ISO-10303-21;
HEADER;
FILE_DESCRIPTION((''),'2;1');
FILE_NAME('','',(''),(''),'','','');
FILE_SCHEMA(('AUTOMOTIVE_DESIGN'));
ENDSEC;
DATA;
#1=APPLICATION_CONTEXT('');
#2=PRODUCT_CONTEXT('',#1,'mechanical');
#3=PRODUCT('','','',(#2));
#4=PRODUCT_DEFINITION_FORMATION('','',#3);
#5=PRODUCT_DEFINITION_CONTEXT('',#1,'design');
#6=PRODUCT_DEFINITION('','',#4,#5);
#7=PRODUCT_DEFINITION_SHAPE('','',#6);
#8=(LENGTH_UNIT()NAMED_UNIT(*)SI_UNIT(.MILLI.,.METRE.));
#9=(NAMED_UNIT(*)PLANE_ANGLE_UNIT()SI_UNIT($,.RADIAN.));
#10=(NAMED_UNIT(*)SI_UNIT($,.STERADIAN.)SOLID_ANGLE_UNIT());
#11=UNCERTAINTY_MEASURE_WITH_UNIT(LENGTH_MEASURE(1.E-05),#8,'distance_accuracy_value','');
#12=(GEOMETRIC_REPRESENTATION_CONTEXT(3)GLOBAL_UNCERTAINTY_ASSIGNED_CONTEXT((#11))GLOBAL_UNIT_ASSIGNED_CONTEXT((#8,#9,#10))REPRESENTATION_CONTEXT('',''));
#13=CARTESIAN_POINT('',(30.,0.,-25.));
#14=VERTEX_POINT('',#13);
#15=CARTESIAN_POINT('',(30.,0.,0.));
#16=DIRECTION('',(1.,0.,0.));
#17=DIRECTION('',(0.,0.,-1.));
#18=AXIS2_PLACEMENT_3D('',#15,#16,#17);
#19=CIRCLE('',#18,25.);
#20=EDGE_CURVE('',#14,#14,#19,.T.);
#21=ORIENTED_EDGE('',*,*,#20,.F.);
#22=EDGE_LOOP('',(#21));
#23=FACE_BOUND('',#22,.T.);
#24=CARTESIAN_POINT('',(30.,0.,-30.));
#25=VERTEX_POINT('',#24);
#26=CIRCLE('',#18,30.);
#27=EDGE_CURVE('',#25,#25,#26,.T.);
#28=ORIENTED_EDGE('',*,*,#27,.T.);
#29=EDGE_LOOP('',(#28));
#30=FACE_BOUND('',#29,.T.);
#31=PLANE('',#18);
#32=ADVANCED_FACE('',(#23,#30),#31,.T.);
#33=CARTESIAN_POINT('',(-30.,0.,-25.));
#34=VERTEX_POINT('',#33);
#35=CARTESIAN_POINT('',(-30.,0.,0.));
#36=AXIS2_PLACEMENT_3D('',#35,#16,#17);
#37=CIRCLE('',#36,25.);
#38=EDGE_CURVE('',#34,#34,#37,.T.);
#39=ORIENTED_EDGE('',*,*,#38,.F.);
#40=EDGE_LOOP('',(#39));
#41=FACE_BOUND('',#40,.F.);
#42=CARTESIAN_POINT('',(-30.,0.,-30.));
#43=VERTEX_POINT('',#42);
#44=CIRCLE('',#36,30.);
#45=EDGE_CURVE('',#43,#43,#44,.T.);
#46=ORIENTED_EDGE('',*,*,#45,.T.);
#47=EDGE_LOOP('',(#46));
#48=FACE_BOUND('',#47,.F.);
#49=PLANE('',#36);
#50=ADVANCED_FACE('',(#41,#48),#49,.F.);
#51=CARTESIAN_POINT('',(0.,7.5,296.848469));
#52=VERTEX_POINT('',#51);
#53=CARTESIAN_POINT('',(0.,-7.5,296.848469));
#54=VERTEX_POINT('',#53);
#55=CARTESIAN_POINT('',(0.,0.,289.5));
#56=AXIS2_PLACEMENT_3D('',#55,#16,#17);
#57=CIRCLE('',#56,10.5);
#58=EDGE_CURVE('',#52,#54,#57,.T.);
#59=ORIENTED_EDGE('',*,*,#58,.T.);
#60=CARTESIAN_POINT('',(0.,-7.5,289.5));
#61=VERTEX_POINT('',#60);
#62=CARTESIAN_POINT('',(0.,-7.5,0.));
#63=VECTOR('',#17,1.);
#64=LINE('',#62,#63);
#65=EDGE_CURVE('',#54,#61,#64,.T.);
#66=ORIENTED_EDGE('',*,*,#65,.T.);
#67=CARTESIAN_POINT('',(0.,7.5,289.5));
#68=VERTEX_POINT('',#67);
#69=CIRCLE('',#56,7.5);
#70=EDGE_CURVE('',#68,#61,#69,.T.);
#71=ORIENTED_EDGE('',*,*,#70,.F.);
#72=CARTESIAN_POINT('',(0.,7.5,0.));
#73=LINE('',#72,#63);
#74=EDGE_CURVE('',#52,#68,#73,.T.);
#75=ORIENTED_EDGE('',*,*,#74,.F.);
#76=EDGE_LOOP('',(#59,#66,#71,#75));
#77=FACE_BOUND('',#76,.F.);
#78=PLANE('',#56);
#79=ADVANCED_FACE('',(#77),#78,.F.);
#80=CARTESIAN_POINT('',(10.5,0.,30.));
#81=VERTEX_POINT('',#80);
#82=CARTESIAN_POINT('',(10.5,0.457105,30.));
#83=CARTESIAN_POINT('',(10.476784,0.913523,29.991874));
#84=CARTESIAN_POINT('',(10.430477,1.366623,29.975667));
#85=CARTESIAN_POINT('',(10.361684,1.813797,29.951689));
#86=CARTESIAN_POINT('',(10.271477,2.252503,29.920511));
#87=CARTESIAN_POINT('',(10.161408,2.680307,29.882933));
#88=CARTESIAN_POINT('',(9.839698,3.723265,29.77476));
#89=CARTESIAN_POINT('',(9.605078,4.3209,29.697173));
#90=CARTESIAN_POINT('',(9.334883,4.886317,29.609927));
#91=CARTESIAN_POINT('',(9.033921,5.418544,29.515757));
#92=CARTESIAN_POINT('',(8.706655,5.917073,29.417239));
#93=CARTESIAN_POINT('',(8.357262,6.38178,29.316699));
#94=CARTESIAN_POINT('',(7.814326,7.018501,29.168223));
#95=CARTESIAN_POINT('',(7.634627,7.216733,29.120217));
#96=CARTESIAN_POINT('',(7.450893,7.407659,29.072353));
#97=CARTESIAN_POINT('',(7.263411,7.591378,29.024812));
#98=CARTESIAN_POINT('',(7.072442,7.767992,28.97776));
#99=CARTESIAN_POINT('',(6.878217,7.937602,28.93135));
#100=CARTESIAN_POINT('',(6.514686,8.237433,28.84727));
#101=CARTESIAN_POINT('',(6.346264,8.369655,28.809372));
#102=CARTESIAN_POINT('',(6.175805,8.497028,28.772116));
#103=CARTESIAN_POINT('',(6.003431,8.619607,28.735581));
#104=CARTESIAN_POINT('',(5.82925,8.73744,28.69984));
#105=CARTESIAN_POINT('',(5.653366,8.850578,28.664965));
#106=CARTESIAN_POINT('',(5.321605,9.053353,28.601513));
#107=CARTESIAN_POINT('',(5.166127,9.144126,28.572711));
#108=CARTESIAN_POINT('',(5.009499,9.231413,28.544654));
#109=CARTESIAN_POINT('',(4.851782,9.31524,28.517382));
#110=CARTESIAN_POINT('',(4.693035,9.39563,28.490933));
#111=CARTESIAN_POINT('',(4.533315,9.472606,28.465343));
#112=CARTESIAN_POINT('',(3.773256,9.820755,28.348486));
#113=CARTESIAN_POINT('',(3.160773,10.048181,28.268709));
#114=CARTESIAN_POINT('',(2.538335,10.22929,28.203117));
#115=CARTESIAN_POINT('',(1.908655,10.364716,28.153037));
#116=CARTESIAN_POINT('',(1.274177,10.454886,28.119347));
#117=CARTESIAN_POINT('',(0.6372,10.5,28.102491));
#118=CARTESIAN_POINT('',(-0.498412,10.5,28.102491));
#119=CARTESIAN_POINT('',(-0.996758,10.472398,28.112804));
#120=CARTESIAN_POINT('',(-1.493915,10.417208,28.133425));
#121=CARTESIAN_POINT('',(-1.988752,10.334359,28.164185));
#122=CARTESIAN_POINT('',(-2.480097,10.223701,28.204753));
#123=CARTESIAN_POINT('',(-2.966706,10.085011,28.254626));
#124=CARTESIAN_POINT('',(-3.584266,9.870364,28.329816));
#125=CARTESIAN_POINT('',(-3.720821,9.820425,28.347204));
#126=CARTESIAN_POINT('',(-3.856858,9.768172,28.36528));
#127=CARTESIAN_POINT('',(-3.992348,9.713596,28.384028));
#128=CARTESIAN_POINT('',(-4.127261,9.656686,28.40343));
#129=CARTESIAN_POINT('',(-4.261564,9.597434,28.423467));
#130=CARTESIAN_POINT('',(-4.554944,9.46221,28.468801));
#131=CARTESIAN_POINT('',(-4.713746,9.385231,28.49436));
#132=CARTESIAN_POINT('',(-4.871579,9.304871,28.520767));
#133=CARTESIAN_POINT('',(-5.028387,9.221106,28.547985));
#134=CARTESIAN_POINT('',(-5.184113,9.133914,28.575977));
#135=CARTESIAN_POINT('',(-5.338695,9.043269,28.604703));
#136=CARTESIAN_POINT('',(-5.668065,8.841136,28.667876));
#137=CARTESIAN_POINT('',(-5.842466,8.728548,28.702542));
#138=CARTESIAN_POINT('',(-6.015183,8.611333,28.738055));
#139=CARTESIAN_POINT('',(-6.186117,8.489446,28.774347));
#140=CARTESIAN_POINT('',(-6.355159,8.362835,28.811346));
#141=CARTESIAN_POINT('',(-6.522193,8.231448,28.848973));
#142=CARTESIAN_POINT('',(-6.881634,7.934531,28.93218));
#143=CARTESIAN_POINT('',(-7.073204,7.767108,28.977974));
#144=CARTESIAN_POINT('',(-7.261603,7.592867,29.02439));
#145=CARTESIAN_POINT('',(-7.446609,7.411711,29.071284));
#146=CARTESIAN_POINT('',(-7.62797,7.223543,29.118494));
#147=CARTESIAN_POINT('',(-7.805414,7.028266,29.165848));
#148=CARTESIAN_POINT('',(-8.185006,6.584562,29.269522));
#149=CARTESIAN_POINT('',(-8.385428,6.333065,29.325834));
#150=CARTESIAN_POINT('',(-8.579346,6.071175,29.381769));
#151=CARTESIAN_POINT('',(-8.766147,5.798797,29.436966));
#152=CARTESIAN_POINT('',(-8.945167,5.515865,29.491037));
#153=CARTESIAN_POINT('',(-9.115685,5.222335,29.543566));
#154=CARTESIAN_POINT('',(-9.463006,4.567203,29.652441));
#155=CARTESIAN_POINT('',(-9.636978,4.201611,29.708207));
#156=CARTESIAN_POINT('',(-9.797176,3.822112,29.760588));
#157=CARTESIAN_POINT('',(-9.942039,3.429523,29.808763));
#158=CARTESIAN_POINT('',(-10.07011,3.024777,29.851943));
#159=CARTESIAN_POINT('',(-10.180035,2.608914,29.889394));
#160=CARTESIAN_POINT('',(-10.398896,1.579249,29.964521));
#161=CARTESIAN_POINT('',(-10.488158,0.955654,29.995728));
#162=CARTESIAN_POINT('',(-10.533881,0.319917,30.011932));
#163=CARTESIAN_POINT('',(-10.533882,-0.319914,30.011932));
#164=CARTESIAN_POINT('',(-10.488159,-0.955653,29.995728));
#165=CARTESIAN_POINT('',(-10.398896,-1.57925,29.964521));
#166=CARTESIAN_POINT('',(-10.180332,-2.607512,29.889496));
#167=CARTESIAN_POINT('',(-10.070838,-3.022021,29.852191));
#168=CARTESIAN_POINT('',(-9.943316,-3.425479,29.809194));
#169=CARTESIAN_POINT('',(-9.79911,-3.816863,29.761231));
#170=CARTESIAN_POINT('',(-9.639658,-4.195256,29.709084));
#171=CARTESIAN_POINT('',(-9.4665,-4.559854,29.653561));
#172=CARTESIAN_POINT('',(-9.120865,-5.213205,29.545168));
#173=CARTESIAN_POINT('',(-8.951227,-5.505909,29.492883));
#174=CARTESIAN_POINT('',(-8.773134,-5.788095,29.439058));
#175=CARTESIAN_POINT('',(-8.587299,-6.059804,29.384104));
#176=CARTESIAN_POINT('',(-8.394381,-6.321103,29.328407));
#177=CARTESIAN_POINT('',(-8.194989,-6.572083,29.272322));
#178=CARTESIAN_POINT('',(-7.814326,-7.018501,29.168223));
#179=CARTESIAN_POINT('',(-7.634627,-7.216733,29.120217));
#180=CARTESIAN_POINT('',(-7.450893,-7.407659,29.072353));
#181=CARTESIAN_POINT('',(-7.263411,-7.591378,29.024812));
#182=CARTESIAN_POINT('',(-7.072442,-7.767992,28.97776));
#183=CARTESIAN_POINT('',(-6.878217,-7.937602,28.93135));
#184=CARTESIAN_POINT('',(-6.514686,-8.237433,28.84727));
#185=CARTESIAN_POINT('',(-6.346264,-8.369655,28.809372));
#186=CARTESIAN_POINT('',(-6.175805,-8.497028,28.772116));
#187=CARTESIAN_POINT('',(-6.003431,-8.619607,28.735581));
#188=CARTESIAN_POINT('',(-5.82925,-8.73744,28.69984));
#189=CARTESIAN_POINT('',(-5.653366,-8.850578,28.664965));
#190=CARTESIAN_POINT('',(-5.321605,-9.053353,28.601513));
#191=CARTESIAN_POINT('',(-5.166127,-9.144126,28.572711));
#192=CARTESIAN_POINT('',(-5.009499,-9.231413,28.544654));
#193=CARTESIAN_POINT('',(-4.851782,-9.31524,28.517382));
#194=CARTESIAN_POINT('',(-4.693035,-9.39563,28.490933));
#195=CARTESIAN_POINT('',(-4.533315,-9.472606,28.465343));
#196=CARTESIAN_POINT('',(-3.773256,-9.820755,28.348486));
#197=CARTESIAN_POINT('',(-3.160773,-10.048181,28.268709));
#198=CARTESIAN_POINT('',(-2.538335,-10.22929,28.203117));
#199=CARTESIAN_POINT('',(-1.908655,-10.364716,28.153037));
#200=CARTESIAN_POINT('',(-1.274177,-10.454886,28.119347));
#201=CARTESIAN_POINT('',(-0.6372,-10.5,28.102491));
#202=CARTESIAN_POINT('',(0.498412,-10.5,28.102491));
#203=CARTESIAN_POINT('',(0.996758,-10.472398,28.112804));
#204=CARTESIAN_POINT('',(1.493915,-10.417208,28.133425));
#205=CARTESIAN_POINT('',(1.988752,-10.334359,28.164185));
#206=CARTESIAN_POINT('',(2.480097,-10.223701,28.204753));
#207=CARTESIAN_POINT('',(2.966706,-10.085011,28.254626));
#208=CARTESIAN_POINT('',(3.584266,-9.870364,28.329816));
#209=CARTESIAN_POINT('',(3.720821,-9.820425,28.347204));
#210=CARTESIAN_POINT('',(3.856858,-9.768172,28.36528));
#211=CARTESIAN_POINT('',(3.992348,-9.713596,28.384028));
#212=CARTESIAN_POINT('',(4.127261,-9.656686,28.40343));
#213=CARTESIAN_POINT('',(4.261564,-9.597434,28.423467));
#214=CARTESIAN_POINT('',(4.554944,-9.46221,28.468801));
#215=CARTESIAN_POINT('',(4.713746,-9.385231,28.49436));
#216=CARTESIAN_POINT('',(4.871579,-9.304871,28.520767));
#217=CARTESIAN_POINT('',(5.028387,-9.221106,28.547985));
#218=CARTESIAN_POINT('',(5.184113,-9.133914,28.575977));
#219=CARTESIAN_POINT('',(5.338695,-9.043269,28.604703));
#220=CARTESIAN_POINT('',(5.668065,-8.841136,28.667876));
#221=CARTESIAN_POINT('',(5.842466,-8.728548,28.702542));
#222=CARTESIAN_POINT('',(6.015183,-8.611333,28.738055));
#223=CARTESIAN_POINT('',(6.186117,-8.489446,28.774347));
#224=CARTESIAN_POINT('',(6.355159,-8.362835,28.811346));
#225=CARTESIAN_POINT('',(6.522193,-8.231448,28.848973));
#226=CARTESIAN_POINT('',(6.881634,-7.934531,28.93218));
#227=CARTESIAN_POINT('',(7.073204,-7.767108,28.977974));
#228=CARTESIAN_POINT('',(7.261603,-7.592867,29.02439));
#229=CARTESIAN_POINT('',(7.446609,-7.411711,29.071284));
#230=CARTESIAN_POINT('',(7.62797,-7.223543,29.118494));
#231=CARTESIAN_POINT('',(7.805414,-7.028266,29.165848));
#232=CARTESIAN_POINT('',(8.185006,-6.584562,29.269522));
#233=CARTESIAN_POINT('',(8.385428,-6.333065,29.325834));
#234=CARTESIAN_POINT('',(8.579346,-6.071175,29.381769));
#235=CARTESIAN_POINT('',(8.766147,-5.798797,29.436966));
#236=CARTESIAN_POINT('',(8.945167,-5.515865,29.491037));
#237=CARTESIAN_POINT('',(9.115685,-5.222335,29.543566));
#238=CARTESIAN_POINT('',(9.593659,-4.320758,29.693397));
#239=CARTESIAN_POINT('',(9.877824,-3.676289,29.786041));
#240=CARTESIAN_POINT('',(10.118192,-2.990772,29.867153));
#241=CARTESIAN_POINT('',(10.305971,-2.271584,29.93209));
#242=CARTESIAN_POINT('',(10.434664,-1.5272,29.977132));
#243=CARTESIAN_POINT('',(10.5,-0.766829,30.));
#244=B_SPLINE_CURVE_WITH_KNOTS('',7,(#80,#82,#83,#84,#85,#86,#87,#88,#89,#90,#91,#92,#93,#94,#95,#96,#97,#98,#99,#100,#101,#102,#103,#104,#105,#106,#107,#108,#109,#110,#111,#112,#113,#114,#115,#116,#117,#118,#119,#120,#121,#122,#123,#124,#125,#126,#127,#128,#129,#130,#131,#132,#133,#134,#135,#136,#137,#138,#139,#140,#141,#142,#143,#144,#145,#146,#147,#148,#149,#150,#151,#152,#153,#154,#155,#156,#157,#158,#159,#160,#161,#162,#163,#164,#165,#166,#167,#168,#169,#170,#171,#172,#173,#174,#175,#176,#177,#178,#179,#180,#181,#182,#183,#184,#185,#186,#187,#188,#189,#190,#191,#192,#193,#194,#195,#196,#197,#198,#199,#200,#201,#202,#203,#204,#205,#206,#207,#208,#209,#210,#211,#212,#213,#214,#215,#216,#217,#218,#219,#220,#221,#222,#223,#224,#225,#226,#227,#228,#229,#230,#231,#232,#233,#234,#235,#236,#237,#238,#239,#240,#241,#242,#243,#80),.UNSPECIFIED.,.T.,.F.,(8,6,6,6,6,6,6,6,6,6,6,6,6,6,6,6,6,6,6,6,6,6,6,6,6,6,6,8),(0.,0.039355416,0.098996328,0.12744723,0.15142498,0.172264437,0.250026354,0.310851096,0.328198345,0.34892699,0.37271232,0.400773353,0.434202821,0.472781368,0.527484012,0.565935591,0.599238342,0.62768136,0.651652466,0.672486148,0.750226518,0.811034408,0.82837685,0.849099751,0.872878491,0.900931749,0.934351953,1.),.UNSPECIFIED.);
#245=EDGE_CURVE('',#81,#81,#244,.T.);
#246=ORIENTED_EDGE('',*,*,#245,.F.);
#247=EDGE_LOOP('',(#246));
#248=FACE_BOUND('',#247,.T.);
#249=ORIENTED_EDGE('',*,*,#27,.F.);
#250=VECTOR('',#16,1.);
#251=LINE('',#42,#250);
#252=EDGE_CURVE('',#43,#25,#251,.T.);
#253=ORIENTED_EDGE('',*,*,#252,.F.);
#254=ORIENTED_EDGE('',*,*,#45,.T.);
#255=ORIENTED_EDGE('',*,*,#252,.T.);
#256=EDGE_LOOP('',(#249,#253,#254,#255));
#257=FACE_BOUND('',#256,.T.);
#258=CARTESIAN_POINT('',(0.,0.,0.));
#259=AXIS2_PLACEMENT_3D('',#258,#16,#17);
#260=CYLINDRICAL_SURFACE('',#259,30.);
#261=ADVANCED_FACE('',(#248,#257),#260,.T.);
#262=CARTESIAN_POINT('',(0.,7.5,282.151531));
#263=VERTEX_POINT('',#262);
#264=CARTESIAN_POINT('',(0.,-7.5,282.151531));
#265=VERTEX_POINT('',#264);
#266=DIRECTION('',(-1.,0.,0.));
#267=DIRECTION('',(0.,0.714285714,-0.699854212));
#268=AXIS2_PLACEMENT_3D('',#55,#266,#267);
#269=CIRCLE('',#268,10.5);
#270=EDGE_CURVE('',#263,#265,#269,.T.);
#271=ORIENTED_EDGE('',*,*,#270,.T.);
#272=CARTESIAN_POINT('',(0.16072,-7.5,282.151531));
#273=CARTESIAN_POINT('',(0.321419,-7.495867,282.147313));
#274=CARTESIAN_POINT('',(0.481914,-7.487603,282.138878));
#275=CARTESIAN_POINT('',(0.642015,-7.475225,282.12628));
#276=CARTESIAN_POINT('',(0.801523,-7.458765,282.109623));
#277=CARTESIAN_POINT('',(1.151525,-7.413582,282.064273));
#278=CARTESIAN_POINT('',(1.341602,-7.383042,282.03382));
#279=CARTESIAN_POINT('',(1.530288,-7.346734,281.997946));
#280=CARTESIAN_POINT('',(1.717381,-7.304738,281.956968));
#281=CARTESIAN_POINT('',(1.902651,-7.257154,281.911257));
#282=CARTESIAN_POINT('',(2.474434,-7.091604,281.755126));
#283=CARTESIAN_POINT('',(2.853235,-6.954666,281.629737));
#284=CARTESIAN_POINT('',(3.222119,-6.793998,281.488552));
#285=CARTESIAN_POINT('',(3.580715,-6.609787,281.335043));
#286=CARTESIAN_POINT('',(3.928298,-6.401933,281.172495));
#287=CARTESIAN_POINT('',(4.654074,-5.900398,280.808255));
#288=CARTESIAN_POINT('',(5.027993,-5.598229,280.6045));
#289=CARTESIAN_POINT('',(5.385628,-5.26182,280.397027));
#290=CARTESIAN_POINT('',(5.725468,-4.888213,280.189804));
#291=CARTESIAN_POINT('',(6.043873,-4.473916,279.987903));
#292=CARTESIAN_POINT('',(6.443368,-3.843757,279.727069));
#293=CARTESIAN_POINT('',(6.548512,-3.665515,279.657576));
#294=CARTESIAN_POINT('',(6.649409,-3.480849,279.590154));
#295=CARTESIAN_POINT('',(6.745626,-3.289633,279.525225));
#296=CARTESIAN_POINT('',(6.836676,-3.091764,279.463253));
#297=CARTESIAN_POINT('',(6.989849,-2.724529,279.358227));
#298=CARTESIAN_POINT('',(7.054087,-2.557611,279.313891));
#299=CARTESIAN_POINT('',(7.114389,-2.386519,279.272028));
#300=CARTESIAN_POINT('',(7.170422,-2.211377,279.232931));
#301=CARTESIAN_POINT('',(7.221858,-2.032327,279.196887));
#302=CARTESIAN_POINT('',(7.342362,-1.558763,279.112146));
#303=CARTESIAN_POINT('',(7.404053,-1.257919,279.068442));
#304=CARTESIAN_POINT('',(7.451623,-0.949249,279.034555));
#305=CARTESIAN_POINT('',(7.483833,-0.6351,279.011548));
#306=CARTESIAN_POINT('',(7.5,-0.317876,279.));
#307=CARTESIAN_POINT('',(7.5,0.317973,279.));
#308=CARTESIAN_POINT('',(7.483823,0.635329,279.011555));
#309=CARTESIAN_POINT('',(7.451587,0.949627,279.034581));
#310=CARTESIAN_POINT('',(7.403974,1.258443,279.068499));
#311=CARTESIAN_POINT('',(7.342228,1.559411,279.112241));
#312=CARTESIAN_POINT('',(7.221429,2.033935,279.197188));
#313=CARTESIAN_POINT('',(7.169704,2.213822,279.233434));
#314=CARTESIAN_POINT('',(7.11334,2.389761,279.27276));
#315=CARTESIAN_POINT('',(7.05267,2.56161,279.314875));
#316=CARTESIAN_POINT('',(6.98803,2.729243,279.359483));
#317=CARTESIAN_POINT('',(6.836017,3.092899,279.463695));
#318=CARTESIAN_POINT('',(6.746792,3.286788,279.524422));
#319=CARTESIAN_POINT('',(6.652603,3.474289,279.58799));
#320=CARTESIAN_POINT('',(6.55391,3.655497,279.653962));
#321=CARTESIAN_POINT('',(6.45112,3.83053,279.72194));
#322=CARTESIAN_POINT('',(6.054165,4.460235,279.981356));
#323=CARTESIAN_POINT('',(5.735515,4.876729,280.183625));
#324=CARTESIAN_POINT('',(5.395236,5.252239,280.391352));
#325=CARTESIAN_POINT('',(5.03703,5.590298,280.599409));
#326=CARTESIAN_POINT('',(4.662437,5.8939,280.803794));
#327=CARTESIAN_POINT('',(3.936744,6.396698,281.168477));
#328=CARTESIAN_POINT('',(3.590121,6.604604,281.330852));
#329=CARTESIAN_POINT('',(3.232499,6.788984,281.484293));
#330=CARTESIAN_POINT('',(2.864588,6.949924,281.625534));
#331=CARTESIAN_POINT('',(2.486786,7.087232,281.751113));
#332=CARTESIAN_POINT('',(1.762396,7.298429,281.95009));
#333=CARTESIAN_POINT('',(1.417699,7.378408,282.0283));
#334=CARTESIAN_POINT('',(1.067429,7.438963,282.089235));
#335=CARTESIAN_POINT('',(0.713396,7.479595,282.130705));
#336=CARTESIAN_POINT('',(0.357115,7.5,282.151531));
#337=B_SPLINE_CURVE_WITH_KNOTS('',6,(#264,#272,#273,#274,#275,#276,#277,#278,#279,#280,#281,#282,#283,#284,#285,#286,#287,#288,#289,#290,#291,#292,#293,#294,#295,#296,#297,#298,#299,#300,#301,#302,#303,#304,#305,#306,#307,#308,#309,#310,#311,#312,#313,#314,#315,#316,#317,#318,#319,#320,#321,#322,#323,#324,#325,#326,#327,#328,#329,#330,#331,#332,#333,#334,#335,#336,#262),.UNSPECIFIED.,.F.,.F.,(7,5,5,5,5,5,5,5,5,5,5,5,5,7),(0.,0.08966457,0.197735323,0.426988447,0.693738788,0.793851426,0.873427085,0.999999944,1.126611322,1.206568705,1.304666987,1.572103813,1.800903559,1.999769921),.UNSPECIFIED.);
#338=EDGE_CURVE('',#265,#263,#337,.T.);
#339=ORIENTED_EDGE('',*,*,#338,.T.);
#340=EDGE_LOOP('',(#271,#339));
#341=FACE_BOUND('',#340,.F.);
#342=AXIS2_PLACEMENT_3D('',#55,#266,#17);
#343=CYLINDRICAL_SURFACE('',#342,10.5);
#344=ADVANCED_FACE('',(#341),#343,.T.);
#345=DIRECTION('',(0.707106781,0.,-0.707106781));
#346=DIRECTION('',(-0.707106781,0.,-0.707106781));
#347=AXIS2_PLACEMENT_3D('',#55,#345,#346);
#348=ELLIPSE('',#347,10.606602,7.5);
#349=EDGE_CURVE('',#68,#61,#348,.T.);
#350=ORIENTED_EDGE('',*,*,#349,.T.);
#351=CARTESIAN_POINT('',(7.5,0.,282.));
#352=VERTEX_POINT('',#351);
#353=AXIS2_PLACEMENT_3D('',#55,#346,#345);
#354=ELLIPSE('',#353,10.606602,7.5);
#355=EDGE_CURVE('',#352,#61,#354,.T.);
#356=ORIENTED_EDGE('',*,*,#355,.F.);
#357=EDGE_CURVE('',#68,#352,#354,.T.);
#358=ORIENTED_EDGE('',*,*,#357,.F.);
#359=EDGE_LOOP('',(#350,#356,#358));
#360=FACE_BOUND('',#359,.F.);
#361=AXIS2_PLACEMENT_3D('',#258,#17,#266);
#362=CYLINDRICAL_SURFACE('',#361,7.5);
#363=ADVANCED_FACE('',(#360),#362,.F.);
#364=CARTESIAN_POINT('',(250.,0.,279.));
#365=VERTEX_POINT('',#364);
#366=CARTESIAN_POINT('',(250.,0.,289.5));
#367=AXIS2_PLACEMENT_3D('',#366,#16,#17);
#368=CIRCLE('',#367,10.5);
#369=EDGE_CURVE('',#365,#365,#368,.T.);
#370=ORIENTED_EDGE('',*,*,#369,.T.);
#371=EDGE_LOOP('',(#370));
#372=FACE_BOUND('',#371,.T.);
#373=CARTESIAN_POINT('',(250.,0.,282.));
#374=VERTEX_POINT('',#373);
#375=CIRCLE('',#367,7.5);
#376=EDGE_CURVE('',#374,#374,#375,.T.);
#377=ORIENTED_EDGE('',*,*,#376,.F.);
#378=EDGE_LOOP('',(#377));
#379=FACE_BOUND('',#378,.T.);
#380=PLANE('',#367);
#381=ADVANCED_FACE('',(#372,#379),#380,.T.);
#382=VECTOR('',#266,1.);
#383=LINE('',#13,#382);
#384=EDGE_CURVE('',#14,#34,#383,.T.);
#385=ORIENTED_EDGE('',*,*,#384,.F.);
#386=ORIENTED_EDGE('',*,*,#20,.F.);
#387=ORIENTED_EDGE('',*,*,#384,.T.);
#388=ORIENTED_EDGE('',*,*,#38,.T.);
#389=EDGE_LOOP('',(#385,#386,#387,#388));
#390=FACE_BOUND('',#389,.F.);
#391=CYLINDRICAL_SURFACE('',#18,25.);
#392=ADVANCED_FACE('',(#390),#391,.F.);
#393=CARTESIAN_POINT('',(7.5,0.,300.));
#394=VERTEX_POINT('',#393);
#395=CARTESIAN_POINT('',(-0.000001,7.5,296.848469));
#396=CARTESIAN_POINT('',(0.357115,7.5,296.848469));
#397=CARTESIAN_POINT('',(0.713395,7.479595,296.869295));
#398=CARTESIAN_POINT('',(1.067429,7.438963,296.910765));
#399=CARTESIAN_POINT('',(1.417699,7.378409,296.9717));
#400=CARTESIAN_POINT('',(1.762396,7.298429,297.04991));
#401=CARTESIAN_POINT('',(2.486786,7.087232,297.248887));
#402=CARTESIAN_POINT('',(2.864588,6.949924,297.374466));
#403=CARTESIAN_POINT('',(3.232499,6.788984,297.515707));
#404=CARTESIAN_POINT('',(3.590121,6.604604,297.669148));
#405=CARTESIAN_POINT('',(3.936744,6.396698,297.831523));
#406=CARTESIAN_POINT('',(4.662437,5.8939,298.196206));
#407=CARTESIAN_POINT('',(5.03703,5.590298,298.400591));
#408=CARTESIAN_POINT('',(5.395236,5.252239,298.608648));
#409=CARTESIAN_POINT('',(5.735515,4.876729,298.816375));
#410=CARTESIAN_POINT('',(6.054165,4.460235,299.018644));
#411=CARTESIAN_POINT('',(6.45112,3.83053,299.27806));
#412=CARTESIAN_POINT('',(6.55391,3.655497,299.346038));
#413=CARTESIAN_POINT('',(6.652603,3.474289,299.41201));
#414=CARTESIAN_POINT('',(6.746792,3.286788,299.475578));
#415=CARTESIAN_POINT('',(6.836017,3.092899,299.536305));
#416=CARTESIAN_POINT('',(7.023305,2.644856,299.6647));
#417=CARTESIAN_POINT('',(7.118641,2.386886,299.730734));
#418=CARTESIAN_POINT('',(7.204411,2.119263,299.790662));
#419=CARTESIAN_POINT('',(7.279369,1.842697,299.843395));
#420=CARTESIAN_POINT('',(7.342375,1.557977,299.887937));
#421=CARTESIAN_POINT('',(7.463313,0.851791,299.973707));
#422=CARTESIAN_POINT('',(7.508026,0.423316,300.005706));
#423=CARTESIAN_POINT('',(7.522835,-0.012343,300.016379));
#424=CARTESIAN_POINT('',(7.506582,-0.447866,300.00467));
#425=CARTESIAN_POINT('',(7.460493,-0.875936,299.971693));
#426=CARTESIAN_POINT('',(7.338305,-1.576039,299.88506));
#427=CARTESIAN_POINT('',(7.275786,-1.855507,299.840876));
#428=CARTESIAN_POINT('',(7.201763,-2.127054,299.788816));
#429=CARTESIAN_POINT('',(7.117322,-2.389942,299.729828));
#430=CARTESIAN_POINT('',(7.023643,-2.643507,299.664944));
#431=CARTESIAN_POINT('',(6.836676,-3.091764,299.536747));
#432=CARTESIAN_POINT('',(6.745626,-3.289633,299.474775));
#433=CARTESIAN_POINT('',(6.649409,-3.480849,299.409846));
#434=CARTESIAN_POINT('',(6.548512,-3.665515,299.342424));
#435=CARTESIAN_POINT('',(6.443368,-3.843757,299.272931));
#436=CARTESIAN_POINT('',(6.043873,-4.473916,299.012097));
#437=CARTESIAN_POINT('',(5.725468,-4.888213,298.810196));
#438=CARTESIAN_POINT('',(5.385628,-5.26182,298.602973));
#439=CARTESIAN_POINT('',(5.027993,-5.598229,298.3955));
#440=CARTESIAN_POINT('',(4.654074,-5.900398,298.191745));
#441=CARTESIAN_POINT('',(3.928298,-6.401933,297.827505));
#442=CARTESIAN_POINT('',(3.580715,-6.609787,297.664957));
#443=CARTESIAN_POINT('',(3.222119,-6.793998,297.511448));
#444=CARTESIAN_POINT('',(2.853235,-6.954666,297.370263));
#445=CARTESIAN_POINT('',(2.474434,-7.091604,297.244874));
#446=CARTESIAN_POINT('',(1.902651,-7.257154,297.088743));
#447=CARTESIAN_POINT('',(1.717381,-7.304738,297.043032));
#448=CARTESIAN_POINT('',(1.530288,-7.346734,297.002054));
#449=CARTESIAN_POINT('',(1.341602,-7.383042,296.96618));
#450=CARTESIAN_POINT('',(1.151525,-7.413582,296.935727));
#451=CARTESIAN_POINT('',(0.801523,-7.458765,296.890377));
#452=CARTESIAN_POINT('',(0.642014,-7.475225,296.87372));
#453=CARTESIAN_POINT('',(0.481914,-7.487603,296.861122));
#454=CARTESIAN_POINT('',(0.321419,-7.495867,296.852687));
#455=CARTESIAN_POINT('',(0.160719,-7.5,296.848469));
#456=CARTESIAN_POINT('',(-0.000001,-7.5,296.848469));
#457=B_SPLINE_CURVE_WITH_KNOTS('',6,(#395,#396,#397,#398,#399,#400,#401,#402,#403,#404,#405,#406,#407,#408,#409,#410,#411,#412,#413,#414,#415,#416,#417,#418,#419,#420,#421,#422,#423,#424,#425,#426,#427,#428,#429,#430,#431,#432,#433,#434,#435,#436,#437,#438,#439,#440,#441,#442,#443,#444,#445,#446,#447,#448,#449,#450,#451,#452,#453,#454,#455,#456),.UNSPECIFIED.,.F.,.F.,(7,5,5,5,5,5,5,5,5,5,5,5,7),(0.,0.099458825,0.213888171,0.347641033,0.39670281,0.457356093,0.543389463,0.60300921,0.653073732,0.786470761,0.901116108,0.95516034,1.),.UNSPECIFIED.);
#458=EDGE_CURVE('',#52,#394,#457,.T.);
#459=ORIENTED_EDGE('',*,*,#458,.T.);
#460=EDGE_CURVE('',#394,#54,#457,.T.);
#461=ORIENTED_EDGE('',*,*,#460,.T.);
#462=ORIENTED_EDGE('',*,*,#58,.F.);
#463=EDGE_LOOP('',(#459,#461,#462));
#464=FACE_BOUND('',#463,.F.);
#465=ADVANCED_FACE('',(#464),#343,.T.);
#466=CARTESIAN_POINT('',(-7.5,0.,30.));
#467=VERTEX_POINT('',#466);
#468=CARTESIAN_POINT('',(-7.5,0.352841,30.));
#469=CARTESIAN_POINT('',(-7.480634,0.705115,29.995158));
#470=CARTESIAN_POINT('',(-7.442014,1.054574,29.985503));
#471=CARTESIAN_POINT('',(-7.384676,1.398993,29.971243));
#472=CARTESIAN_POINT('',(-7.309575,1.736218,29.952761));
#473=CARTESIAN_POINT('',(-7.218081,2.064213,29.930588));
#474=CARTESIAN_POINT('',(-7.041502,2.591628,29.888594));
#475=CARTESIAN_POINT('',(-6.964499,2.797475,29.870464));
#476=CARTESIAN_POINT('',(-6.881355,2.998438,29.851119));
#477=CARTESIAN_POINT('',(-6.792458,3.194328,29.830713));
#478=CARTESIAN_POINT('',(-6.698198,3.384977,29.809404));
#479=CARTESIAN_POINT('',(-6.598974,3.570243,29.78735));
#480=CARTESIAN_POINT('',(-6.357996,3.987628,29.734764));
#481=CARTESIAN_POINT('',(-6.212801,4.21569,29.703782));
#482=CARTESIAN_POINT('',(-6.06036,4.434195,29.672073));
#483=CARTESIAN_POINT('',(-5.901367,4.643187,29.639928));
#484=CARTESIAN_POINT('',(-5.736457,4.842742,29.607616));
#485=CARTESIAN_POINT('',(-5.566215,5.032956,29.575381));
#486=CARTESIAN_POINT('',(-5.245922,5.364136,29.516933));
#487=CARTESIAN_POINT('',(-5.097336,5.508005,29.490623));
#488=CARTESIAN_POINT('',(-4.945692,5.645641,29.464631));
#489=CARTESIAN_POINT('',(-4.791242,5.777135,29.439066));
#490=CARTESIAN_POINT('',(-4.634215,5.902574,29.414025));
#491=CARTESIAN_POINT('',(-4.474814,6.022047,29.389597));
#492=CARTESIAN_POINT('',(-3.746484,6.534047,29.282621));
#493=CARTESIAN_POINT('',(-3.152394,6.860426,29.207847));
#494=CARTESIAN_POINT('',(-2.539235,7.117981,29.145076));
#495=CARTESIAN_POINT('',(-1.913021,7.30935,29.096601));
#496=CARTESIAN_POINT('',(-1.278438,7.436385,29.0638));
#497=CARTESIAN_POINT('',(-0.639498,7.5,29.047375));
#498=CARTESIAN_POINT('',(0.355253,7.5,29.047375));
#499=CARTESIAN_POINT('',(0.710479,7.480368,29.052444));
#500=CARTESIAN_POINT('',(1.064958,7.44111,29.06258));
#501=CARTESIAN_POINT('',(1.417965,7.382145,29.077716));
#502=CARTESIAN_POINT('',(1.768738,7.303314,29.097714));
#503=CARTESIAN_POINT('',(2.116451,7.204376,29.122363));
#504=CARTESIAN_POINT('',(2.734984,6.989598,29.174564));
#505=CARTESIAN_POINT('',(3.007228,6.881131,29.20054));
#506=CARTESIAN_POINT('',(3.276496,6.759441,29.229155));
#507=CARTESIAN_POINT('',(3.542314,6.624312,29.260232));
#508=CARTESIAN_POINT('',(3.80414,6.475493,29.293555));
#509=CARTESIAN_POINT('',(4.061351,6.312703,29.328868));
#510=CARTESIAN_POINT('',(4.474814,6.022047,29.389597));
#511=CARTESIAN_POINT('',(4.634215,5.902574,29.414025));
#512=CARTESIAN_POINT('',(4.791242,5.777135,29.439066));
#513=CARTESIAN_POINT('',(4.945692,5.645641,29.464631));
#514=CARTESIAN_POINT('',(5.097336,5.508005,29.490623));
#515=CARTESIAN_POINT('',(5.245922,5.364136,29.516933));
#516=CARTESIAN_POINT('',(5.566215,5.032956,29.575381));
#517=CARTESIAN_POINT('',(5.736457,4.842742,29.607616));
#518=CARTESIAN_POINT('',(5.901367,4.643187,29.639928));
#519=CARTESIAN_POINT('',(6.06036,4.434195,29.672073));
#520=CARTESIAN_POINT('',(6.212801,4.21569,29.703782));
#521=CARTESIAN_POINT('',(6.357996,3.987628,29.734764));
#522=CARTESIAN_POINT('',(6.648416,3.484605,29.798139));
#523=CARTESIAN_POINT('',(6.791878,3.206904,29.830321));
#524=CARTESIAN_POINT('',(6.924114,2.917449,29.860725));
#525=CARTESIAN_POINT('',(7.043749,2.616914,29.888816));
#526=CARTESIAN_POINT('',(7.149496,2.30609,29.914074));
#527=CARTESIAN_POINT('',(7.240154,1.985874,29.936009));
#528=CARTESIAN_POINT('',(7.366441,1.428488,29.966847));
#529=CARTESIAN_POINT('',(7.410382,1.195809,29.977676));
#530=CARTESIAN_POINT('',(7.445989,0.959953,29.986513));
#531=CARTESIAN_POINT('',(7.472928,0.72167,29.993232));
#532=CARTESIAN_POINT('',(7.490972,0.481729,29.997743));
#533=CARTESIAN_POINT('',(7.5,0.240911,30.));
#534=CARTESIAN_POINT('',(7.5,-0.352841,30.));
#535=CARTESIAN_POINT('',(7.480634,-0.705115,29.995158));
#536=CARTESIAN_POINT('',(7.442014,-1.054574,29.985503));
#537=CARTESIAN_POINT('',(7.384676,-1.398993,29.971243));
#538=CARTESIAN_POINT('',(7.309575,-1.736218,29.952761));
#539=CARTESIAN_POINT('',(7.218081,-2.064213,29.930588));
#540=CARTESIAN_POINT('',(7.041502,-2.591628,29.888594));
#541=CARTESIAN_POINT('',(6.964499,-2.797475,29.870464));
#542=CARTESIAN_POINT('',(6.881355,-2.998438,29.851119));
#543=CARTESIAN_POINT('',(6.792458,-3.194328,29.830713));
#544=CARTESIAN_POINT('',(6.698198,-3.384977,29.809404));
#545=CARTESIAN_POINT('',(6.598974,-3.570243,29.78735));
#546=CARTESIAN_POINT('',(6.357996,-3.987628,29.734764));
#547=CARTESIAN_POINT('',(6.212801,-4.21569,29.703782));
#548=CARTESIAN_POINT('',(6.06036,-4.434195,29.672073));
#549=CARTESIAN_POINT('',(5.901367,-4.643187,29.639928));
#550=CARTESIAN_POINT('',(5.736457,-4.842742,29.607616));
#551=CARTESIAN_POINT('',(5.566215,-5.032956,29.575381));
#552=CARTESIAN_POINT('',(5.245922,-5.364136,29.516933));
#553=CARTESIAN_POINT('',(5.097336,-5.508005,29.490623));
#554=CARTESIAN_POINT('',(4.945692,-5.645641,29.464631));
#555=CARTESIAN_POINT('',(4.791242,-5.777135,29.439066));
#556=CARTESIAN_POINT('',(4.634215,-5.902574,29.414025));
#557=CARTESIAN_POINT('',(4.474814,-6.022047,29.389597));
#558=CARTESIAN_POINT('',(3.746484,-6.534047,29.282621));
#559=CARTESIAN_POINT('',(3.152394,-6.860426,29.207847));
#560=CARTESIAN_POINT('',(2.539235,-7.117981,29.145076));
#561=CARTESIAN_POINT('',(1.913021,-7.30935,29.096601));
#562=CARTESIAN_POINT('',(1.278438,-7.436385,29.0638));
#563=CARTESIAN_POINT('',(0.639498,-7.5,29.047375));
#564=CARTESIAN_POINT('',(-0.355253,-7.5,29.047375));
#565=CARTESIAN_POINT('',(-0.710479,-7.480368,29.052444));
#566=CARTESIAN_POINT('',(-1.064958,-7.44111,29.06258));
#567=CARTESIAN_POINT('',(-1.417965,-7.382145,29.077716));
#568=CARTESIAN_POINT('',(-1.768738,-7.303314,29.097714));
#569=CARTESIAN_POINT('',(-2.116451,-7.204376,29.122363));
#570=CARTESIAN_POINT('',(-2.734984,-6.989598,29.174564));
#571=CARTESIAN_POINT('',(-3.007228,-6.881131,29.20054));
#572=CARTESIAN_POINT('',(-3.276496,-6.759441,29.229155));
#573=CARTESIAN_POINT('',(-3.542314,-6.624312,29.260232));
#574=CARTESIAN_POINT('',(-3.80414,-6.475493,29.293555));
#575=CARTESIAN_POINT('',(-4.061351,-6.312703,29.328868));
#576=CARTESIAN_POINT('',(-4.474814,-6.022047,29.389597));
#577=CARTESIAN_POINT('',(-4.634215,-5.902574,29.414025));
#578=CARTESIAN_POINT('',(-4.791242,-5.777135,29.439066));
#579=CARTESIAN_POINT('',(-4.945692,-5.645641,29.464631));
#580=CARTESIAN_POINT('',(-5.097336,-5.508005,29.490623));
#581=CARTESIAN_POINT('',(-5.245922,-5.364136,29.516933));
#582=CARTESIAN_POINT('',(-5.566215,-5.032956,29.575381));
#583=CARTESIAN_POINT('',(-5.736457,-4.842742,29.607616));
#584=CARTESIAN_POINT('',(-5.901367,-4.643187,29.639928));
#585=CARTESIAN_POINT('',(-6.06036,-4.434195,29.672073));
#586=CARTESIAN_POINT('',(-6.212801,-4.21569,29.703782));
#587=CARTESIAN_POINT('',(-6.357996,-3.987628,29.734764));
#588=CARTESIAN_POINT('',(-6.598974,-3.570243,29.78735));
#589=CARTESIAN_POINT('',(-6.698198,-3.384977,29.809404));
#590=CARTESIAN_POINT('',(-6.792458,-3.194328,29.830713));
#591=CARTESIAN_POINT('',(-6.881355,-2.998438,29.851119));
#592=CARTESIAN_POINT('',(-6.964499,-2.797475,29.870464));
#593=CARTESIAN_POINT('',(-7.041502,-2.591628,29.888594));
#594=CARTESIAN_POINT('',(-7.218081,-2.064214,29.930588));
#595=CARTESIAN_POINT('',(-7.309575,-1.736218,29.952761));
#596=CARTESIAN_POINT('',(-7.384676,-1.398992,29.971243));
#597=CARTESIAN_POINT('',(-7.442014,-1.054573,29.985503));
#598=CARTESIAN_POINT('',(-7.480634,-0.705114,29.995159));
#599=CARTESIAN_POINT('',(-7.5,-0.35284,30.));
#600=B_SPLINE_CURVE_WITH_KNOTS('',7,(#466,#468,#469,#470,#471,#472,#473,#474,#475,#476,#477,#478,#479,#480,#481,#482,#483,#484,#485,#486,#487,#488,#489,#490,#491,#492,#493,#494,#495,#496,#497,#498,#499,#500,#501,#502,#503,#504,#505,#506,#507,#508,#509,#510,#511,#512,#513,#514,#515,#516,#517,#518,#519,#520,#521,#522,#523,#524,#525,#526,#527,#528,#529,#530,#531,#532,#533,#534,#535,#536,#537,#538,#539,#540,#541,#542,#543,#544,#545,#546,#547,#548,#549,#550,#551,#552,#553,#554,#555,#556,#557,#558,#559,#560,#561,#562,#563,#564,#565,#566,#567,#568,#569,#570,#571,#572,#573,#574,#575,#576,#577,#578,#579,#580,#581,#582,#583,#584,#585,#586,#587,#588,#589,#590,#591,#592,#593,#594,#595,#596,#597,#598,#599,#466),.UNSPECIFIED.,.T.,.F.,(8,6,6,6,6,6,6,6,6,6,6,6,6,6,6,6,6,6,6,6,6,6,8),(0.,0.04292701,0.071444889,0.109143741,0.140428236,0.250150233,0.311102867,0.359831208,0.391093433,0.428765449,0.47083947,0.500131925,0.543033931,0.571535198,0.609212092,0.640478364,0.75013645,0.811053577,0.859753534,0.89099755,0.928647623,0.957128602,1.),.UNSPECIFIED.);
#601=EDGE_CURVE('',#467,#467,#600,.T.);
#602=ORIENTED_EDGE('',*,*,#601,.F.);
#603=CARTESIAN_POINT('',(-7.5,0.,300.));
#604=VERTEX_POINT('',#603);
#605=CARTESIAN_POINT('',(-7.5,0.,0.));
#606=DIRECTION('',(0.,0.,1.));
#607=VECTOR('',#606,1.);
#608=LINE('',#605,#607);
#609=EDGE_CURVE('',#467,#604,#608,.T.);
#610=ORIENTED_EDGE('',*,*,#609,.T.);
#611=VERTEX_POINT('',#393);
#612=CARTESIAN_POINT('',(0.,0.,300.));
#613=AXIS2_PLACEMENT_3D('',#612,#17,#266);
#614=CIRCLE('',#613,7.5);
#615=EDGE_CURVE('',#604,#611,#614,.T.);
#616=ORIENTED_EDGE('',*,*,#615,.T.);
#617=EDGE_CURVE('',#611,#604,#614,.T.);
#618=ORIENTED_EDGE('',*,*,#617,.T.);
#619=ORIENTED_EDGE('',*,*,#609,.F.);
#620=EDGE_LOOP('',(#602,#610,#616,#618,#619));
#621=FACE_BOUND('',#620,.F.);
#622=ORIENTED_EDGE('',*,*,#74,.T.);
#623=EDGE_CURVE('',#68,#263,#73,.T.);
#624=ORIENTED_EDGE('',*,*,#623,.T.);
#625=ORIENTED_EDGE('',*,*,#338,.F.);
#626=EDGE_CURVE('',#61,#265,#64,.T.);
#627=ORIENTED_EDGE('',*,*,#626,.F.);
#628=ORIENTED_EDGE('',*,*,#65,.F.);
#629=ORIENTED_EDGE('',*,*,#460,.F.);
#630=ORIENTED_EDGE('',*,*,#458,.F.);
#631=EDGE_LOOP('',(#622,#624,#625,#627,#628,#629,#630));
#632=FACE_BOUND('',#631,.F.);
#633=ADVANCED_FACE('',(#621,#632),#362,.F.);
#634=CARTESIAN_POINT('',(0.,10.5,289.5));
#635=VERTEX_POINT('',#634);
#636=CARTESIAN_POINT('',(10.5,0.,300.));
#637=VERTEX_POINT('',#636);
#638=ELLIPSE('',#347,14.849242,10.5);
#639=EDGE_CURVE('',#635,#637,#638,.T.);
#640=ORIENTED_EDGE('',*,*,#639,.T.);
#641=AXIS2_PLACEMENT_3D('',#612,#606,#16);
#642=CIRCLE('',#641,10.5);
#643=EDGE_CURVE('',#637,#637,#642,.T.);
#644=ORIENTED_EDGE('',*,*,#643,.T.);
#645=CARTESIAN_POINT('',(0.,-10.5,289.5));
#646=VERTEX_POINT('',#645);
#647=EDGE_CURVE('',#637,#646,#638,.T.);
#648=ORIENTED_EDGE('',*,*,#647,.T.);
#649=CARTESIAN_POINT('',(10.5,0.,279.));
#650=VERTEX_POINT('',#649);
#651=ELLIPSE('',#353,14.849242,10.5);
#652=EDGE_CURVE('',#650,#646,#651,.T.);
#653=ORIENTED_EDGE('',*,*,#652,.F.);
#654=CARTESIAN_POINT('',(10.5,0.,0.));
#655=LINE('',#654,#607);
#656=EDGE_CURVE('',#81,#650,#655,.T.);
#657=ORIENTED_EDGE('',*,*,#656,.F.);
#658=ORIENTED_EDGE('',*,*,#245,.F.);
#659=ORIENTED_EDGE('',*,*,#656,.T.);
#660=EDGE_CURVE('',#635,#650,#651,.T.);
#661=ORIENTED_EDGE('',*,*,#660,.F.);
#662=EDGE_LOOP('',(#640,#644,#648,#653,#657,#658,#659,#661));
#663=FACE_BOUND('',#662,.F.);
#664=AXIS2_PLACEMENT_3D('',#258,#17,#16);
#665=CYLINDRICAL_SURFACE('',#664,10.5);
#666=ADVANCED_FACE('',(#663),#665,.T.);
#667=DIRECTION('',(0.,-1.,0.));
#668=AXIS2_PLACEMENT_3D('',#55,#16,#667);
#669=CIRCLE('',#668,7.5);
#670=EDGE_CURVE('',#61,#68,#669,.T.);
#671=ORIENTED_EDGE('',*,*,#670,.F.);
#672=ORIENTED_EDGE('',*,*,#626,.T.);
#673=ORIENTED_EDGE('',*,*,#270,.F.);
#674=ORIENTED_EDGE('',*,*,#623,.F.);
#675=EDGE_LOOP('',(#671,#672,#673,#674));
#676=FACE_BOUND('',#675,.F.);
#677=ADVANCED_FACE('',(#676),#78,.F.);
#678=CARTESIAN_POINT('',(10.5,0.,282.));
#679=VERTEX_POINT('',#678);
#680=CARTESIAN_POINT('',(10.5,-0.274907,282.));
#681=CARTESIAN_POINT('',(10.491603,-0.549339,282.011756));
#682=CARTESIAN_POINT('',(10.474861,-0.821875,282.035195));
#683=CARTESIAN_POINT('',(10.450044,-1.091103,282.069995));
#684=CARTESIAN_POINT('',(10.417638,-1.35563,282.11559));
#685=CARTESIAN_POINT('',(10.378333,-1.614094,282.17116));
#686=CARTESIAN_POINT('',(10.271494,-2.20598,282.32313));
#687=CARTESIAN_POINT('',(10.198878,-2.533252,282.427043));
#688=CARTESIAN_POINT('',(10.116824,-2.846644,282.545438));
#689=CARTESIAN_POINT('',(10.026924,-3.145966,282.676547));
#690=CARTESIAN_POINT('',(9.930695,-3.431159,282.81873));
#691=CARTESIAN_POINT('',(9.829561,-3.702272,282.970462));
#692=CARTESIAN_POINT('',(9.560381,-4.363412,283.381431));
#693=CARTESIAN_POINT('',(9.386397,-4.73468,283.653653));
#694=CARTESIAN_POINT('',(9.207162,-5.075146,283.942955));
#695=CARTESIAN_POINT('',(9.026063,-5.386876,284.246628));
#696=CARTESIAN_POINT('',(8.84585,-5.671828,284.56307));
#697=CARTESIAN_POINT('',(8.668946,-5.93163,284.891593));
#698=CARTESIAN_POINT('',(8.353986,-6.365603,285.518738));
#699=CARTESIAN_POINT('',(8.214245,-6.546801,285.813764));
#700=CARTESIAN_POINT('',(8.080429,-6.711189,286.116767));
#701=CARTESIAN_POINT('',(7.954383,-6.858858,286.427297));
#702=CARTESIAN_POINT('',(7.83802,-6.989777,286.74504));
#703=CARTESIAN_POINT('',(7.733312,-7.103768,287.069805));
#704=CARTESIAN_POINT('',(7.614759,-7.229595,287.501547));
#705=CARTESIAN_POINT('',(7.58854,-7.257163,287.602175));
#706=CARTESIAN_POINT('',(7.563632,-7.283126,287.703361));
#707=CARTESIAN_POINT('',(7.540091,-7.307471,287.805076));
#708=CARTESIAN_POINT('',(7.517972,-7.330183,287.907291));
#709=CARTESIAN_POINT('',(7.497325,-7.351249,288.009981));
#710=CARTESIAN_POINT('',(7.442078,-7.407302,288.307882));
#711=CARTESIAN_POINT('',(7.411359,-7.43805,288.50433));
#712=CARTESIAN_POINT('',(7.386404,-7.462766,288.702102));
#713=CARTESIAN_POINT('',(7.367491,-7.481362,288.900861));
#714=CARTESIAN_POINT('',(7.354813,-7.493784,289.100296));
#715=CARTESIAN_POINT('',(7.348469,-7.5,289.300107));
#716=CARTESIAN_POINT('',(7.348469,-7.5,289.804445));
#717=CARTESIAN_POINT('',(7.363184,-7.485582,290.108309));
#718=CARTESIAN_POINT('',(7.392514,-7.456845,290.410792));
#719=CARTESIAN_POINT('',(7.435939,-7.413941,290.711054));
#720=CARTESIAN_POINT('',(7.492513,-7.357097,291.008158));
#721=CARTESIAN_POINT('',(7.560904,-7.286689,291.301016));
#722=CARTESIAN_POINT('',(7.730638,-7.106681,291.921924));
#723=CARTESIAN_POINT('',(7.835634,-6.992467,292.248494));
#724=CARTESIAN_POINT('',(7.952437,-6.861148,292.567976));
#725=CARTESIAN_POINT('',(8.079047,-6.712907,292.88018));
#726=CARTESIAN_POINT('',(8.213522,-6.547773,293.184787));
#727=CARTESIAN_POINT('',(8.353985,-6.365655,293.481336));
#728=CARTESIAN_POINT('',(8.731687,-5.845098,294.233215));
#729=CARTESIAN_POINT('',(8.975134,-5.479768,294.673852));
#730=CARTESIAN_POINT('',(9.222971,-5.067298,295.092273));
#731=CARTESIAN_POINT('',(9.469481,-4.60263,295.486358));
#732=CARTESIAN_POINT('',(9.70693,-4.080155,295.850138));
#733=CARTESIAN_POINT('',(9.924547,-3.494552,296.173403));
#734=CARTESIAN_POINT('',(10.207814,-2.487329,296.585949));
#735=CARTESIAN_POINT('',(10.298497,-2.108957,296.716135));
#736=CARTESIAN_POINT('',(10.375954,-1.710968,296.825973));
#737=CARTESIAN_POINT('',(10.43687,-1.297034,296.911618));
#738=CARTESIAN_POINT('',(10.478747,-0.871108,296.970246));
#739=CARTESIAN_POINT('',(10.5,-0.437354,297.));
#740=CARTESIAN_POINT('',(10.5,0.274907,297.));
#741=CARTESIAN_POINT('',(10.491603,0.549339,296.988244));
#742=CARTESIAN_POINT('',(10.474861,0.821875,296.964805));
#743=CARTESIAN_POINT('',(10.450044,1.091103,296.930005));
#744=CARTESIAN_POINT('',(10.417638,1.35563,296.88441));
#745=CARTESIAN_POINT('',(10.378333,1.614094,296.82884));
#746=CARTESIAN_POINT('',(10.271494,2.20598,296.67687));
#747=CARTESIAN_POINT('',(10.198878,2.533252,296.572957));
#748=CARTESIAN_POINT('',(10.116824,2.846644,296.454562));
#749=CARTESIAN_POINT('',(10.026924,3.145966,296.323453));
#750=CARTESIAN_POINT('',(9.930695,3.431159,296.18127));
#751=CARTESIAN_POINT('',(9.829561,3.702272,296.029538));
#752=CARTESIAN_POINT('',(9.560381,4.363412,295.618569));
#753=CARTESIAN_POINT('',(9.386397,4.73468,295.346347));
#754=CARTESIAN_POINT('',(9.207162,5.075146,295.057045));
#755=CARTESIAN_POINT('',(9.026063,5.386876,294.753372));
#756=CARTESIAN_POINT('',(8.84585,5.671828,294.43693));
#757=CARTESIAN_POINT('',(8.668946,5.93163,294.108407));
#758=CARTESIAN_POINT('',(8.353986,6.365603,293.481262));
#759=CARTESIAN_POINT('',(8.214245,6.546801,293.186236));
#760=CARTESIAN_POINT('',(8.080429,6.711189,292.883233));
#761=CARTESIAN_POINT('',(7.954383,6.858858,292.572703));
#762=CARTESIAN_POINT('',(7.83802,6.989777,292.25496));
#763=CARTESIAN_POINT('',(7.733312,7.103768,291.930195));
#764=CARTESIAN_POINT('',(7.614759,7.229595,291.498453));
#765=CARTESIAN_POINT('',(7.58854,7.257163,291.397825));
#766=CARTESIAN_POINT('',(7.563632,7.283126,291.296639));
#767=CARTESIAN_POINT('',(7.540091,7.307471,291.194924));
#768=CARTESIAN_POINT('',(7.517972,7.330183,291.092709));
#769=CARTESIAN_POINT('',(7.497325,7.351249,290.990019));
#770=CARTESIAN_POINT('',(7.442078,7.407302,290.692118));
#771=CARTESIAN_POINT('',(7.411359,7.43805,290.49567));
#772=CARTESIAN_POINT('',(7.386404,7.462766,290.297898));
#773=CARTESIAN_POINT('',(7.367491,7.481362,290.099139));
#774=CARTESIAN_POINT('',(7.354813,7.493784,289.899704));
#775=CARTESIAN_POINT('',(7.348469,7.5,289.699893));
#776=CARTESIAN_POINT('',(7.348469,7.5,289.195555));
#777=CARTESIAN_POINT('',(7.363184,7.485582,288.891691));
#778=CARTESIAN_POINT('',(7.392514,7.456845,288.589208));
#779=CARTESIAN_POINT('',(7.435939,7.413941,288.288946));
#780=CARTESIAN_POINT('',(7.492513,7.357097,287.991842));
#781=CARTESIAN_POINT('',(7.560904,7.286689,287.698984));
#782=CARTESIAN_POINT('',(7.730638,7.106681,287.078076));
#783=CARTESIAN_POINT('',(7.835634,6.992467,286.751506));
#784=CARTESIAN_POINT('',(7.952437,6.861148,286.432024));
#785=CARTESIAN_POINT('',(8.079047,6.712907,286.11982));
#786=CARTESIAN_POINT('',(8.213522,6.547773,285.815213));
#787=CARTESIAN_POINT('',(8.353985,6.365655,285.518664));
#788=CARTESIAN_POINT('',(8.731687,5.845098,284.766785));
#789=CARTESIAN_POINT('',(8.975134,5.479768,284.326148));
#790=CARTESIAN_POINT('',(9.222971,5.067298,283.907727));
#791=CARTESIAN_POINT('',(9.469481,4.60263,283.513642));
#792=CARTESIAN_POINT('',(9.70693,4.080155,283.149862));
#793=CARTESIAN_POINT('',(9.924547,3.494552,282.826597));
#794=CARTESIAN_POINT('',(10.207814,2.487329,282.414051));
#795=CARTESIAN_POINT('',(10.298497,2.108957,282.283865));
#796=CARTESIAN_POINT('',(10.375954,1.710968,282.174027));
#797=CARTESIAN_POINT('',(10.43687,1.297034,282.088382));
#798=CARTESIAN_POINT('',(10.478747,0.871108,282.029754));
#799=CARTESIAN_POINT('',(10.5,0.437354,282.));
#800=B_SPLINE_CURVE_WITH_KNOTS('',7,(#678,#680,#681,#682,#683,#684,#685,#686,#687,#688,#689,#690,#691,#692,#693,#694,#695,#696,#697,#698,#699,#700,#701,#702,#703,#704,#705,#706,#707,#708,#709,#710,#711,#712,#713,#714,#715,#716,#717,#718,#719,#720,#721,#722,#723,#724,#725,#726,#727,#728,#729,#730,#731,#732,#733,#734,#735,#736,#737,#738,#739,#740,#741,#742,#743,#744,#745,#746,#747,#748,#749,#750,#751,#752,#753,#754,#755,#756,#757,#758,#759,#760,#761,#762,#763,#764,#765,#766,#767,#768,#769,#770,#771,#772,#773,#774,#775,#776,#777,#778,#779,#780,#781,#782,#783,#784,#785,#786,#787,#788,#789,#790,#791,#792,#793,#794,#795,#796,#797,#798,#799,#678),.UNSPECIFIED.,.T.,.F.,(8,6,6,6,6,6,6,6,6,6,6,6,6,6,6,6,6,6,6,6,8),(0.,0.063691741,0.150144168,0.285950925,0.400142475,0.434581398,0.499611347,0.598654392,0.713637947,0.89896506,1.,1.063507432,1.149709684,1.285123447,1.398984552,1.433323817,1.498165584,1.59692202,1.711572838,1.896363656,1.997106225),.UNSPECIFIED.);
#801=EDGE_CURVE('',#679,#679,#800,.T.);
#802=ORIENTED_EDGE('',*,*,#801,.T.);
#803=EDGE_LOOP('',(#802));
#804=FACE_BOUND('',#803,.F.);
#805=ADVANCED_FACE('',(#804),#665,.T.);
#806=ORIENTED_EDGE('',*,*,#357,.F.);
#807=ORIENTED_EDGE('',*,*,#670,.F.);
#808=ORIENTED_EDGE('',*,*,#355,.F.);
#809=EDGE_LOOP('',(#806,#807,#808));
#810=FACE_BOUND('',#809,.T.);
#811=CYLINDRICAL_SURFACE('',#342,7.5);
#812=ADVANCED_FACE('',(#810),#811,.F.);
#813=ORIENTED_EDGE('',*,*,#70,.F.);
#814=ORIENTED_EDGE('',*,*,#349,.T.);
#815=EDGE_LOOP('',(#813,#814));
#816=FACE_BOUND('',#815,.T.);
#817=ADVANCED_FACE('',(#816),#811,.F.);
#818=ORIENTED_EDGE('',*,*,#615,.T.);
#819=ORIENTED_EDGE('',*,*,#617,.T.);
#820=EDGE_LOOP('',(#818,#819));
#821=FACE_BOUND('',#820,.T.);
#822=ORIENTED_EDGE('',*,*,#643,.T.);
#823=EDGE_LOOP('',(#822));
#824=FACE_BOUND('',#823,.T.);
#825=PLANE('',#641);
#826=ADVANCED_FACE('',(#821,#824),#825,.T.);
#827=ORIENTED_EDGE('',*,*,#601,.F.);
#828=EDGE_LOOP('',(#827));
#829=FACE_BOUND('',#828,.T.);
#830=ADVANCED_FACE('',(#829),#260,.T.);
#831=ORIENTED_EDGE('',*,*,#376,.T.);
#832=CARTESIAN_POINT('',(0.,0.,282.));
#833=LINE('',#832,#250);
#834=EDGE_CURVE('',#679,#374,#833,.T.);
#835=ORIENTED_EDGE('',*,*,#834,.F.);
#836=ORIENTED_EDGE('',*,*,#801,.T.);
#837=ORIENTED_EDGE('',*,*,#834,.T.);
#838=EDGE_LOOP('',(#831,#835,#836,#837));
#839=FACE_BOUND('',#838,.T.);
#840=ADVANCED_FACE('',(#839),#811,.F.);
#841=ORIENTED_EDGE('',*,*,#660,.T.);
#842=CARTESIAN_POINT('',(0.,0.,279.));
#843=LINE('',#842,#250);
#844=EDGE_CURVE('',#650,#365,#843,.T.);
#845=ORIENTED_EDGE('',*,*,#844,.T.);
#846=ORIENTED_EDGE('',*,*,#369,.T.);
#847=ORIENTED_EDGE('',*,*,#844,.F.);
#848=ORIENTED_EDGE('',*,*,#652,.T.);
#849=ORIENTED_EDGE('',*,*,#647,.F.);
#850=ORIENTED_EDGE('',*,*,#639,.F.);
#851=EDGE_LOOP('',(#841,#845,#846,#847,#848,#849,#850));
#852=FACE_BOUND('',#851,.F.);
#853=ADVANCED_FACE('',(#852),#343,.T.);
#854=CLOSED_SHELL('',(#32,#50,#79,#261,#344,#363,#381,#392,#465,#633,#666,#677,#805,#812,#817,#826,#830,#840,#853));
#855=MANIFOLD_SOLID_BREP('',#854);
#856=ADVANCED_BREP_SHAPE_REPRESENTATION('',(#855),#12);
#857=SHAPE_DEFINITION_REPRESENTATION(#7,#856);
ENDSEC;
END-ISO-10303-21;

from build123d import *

# Parameters (mm, degrees)
SKETCH_1_R          = 10.5
EXTRUDE_1_DEPTH     = 300
SKETCH_2_R          = 7.5
CUT_EXTRUDE_1_DEPTH = 301
SKETCH_4_R          = 30
EXTRUDE_2_DEPTH     = 30
SKETCH_5_R          = 25
CUT_EXTRUDE_2_DEPTH = 61.0000001
SKETCH_7_R          = 10.5
SKETCH_7_R_2        = 7.5
EXTRUDE_4_DEPTH     = 250


with BuildPart() as part:
    # Эскиз1 → Бобышка-Вытянуть1 (new body)
    with BuildSketch(Plane.XY):
        Circle(SKETCH_1_R)
    extrude(amount=EXTRUDE_1_DEPTH)

    # Эскиз2 → Вырез-Вытянуть1 (cut, through all)
    with BuildSketch(Plane(origin=(0, 0, 0), x_dir=(-1, 0, 0), z_dir=(0, 0, -1))):
        Circle(SKETCH_2_R)
    extrude(amount=-CUT_EXTRUDE_1_DEPTH, mode=Mode.SUBTRACT)

    # Эскиз4 → Бобышка-Вытянуть2 (add, symmetric)
    with BuildSketch(Plane(origin=(0, 0, 0), x_dir=(0, 0, -1), z_dir=(1, 0, 0))):
        Circle(SKETCH_4_R)
    extrude(amount=EXTRUDE_2_DEPTH, both=True)

    # Эскиз5 → Вырез-Вытянуть2 (cut, through all)
    with BuildSketch(Plane(origin=(30, 0, 0), x_dir=(0, 0, -1), z_dir=(1, 0, 0))):
        Circle(SKETCH_5_R)
    extrude(amount=-CUT_EXTRUDE_2_DEPTH, mode=Mode.SUBTRACT)

    # Эскиз7 → Бобышка-Вытянуть4 (add)
    with BuildSketch(Plane(origin=(0, 0, 0), x_dir=(0, 0, -1), z_dir=(1, 0, 0))):
        with Locations((-289.5, 0)):
            Circle(SKETCH_7_R)
        with Locations((-289.5, 0)):
            Circle(SKETCH_7_R_2, mode=Mode.SUBTRACT)
    extrude(amount=EXTRUDE_4_DEPTH)


solid = part.part
